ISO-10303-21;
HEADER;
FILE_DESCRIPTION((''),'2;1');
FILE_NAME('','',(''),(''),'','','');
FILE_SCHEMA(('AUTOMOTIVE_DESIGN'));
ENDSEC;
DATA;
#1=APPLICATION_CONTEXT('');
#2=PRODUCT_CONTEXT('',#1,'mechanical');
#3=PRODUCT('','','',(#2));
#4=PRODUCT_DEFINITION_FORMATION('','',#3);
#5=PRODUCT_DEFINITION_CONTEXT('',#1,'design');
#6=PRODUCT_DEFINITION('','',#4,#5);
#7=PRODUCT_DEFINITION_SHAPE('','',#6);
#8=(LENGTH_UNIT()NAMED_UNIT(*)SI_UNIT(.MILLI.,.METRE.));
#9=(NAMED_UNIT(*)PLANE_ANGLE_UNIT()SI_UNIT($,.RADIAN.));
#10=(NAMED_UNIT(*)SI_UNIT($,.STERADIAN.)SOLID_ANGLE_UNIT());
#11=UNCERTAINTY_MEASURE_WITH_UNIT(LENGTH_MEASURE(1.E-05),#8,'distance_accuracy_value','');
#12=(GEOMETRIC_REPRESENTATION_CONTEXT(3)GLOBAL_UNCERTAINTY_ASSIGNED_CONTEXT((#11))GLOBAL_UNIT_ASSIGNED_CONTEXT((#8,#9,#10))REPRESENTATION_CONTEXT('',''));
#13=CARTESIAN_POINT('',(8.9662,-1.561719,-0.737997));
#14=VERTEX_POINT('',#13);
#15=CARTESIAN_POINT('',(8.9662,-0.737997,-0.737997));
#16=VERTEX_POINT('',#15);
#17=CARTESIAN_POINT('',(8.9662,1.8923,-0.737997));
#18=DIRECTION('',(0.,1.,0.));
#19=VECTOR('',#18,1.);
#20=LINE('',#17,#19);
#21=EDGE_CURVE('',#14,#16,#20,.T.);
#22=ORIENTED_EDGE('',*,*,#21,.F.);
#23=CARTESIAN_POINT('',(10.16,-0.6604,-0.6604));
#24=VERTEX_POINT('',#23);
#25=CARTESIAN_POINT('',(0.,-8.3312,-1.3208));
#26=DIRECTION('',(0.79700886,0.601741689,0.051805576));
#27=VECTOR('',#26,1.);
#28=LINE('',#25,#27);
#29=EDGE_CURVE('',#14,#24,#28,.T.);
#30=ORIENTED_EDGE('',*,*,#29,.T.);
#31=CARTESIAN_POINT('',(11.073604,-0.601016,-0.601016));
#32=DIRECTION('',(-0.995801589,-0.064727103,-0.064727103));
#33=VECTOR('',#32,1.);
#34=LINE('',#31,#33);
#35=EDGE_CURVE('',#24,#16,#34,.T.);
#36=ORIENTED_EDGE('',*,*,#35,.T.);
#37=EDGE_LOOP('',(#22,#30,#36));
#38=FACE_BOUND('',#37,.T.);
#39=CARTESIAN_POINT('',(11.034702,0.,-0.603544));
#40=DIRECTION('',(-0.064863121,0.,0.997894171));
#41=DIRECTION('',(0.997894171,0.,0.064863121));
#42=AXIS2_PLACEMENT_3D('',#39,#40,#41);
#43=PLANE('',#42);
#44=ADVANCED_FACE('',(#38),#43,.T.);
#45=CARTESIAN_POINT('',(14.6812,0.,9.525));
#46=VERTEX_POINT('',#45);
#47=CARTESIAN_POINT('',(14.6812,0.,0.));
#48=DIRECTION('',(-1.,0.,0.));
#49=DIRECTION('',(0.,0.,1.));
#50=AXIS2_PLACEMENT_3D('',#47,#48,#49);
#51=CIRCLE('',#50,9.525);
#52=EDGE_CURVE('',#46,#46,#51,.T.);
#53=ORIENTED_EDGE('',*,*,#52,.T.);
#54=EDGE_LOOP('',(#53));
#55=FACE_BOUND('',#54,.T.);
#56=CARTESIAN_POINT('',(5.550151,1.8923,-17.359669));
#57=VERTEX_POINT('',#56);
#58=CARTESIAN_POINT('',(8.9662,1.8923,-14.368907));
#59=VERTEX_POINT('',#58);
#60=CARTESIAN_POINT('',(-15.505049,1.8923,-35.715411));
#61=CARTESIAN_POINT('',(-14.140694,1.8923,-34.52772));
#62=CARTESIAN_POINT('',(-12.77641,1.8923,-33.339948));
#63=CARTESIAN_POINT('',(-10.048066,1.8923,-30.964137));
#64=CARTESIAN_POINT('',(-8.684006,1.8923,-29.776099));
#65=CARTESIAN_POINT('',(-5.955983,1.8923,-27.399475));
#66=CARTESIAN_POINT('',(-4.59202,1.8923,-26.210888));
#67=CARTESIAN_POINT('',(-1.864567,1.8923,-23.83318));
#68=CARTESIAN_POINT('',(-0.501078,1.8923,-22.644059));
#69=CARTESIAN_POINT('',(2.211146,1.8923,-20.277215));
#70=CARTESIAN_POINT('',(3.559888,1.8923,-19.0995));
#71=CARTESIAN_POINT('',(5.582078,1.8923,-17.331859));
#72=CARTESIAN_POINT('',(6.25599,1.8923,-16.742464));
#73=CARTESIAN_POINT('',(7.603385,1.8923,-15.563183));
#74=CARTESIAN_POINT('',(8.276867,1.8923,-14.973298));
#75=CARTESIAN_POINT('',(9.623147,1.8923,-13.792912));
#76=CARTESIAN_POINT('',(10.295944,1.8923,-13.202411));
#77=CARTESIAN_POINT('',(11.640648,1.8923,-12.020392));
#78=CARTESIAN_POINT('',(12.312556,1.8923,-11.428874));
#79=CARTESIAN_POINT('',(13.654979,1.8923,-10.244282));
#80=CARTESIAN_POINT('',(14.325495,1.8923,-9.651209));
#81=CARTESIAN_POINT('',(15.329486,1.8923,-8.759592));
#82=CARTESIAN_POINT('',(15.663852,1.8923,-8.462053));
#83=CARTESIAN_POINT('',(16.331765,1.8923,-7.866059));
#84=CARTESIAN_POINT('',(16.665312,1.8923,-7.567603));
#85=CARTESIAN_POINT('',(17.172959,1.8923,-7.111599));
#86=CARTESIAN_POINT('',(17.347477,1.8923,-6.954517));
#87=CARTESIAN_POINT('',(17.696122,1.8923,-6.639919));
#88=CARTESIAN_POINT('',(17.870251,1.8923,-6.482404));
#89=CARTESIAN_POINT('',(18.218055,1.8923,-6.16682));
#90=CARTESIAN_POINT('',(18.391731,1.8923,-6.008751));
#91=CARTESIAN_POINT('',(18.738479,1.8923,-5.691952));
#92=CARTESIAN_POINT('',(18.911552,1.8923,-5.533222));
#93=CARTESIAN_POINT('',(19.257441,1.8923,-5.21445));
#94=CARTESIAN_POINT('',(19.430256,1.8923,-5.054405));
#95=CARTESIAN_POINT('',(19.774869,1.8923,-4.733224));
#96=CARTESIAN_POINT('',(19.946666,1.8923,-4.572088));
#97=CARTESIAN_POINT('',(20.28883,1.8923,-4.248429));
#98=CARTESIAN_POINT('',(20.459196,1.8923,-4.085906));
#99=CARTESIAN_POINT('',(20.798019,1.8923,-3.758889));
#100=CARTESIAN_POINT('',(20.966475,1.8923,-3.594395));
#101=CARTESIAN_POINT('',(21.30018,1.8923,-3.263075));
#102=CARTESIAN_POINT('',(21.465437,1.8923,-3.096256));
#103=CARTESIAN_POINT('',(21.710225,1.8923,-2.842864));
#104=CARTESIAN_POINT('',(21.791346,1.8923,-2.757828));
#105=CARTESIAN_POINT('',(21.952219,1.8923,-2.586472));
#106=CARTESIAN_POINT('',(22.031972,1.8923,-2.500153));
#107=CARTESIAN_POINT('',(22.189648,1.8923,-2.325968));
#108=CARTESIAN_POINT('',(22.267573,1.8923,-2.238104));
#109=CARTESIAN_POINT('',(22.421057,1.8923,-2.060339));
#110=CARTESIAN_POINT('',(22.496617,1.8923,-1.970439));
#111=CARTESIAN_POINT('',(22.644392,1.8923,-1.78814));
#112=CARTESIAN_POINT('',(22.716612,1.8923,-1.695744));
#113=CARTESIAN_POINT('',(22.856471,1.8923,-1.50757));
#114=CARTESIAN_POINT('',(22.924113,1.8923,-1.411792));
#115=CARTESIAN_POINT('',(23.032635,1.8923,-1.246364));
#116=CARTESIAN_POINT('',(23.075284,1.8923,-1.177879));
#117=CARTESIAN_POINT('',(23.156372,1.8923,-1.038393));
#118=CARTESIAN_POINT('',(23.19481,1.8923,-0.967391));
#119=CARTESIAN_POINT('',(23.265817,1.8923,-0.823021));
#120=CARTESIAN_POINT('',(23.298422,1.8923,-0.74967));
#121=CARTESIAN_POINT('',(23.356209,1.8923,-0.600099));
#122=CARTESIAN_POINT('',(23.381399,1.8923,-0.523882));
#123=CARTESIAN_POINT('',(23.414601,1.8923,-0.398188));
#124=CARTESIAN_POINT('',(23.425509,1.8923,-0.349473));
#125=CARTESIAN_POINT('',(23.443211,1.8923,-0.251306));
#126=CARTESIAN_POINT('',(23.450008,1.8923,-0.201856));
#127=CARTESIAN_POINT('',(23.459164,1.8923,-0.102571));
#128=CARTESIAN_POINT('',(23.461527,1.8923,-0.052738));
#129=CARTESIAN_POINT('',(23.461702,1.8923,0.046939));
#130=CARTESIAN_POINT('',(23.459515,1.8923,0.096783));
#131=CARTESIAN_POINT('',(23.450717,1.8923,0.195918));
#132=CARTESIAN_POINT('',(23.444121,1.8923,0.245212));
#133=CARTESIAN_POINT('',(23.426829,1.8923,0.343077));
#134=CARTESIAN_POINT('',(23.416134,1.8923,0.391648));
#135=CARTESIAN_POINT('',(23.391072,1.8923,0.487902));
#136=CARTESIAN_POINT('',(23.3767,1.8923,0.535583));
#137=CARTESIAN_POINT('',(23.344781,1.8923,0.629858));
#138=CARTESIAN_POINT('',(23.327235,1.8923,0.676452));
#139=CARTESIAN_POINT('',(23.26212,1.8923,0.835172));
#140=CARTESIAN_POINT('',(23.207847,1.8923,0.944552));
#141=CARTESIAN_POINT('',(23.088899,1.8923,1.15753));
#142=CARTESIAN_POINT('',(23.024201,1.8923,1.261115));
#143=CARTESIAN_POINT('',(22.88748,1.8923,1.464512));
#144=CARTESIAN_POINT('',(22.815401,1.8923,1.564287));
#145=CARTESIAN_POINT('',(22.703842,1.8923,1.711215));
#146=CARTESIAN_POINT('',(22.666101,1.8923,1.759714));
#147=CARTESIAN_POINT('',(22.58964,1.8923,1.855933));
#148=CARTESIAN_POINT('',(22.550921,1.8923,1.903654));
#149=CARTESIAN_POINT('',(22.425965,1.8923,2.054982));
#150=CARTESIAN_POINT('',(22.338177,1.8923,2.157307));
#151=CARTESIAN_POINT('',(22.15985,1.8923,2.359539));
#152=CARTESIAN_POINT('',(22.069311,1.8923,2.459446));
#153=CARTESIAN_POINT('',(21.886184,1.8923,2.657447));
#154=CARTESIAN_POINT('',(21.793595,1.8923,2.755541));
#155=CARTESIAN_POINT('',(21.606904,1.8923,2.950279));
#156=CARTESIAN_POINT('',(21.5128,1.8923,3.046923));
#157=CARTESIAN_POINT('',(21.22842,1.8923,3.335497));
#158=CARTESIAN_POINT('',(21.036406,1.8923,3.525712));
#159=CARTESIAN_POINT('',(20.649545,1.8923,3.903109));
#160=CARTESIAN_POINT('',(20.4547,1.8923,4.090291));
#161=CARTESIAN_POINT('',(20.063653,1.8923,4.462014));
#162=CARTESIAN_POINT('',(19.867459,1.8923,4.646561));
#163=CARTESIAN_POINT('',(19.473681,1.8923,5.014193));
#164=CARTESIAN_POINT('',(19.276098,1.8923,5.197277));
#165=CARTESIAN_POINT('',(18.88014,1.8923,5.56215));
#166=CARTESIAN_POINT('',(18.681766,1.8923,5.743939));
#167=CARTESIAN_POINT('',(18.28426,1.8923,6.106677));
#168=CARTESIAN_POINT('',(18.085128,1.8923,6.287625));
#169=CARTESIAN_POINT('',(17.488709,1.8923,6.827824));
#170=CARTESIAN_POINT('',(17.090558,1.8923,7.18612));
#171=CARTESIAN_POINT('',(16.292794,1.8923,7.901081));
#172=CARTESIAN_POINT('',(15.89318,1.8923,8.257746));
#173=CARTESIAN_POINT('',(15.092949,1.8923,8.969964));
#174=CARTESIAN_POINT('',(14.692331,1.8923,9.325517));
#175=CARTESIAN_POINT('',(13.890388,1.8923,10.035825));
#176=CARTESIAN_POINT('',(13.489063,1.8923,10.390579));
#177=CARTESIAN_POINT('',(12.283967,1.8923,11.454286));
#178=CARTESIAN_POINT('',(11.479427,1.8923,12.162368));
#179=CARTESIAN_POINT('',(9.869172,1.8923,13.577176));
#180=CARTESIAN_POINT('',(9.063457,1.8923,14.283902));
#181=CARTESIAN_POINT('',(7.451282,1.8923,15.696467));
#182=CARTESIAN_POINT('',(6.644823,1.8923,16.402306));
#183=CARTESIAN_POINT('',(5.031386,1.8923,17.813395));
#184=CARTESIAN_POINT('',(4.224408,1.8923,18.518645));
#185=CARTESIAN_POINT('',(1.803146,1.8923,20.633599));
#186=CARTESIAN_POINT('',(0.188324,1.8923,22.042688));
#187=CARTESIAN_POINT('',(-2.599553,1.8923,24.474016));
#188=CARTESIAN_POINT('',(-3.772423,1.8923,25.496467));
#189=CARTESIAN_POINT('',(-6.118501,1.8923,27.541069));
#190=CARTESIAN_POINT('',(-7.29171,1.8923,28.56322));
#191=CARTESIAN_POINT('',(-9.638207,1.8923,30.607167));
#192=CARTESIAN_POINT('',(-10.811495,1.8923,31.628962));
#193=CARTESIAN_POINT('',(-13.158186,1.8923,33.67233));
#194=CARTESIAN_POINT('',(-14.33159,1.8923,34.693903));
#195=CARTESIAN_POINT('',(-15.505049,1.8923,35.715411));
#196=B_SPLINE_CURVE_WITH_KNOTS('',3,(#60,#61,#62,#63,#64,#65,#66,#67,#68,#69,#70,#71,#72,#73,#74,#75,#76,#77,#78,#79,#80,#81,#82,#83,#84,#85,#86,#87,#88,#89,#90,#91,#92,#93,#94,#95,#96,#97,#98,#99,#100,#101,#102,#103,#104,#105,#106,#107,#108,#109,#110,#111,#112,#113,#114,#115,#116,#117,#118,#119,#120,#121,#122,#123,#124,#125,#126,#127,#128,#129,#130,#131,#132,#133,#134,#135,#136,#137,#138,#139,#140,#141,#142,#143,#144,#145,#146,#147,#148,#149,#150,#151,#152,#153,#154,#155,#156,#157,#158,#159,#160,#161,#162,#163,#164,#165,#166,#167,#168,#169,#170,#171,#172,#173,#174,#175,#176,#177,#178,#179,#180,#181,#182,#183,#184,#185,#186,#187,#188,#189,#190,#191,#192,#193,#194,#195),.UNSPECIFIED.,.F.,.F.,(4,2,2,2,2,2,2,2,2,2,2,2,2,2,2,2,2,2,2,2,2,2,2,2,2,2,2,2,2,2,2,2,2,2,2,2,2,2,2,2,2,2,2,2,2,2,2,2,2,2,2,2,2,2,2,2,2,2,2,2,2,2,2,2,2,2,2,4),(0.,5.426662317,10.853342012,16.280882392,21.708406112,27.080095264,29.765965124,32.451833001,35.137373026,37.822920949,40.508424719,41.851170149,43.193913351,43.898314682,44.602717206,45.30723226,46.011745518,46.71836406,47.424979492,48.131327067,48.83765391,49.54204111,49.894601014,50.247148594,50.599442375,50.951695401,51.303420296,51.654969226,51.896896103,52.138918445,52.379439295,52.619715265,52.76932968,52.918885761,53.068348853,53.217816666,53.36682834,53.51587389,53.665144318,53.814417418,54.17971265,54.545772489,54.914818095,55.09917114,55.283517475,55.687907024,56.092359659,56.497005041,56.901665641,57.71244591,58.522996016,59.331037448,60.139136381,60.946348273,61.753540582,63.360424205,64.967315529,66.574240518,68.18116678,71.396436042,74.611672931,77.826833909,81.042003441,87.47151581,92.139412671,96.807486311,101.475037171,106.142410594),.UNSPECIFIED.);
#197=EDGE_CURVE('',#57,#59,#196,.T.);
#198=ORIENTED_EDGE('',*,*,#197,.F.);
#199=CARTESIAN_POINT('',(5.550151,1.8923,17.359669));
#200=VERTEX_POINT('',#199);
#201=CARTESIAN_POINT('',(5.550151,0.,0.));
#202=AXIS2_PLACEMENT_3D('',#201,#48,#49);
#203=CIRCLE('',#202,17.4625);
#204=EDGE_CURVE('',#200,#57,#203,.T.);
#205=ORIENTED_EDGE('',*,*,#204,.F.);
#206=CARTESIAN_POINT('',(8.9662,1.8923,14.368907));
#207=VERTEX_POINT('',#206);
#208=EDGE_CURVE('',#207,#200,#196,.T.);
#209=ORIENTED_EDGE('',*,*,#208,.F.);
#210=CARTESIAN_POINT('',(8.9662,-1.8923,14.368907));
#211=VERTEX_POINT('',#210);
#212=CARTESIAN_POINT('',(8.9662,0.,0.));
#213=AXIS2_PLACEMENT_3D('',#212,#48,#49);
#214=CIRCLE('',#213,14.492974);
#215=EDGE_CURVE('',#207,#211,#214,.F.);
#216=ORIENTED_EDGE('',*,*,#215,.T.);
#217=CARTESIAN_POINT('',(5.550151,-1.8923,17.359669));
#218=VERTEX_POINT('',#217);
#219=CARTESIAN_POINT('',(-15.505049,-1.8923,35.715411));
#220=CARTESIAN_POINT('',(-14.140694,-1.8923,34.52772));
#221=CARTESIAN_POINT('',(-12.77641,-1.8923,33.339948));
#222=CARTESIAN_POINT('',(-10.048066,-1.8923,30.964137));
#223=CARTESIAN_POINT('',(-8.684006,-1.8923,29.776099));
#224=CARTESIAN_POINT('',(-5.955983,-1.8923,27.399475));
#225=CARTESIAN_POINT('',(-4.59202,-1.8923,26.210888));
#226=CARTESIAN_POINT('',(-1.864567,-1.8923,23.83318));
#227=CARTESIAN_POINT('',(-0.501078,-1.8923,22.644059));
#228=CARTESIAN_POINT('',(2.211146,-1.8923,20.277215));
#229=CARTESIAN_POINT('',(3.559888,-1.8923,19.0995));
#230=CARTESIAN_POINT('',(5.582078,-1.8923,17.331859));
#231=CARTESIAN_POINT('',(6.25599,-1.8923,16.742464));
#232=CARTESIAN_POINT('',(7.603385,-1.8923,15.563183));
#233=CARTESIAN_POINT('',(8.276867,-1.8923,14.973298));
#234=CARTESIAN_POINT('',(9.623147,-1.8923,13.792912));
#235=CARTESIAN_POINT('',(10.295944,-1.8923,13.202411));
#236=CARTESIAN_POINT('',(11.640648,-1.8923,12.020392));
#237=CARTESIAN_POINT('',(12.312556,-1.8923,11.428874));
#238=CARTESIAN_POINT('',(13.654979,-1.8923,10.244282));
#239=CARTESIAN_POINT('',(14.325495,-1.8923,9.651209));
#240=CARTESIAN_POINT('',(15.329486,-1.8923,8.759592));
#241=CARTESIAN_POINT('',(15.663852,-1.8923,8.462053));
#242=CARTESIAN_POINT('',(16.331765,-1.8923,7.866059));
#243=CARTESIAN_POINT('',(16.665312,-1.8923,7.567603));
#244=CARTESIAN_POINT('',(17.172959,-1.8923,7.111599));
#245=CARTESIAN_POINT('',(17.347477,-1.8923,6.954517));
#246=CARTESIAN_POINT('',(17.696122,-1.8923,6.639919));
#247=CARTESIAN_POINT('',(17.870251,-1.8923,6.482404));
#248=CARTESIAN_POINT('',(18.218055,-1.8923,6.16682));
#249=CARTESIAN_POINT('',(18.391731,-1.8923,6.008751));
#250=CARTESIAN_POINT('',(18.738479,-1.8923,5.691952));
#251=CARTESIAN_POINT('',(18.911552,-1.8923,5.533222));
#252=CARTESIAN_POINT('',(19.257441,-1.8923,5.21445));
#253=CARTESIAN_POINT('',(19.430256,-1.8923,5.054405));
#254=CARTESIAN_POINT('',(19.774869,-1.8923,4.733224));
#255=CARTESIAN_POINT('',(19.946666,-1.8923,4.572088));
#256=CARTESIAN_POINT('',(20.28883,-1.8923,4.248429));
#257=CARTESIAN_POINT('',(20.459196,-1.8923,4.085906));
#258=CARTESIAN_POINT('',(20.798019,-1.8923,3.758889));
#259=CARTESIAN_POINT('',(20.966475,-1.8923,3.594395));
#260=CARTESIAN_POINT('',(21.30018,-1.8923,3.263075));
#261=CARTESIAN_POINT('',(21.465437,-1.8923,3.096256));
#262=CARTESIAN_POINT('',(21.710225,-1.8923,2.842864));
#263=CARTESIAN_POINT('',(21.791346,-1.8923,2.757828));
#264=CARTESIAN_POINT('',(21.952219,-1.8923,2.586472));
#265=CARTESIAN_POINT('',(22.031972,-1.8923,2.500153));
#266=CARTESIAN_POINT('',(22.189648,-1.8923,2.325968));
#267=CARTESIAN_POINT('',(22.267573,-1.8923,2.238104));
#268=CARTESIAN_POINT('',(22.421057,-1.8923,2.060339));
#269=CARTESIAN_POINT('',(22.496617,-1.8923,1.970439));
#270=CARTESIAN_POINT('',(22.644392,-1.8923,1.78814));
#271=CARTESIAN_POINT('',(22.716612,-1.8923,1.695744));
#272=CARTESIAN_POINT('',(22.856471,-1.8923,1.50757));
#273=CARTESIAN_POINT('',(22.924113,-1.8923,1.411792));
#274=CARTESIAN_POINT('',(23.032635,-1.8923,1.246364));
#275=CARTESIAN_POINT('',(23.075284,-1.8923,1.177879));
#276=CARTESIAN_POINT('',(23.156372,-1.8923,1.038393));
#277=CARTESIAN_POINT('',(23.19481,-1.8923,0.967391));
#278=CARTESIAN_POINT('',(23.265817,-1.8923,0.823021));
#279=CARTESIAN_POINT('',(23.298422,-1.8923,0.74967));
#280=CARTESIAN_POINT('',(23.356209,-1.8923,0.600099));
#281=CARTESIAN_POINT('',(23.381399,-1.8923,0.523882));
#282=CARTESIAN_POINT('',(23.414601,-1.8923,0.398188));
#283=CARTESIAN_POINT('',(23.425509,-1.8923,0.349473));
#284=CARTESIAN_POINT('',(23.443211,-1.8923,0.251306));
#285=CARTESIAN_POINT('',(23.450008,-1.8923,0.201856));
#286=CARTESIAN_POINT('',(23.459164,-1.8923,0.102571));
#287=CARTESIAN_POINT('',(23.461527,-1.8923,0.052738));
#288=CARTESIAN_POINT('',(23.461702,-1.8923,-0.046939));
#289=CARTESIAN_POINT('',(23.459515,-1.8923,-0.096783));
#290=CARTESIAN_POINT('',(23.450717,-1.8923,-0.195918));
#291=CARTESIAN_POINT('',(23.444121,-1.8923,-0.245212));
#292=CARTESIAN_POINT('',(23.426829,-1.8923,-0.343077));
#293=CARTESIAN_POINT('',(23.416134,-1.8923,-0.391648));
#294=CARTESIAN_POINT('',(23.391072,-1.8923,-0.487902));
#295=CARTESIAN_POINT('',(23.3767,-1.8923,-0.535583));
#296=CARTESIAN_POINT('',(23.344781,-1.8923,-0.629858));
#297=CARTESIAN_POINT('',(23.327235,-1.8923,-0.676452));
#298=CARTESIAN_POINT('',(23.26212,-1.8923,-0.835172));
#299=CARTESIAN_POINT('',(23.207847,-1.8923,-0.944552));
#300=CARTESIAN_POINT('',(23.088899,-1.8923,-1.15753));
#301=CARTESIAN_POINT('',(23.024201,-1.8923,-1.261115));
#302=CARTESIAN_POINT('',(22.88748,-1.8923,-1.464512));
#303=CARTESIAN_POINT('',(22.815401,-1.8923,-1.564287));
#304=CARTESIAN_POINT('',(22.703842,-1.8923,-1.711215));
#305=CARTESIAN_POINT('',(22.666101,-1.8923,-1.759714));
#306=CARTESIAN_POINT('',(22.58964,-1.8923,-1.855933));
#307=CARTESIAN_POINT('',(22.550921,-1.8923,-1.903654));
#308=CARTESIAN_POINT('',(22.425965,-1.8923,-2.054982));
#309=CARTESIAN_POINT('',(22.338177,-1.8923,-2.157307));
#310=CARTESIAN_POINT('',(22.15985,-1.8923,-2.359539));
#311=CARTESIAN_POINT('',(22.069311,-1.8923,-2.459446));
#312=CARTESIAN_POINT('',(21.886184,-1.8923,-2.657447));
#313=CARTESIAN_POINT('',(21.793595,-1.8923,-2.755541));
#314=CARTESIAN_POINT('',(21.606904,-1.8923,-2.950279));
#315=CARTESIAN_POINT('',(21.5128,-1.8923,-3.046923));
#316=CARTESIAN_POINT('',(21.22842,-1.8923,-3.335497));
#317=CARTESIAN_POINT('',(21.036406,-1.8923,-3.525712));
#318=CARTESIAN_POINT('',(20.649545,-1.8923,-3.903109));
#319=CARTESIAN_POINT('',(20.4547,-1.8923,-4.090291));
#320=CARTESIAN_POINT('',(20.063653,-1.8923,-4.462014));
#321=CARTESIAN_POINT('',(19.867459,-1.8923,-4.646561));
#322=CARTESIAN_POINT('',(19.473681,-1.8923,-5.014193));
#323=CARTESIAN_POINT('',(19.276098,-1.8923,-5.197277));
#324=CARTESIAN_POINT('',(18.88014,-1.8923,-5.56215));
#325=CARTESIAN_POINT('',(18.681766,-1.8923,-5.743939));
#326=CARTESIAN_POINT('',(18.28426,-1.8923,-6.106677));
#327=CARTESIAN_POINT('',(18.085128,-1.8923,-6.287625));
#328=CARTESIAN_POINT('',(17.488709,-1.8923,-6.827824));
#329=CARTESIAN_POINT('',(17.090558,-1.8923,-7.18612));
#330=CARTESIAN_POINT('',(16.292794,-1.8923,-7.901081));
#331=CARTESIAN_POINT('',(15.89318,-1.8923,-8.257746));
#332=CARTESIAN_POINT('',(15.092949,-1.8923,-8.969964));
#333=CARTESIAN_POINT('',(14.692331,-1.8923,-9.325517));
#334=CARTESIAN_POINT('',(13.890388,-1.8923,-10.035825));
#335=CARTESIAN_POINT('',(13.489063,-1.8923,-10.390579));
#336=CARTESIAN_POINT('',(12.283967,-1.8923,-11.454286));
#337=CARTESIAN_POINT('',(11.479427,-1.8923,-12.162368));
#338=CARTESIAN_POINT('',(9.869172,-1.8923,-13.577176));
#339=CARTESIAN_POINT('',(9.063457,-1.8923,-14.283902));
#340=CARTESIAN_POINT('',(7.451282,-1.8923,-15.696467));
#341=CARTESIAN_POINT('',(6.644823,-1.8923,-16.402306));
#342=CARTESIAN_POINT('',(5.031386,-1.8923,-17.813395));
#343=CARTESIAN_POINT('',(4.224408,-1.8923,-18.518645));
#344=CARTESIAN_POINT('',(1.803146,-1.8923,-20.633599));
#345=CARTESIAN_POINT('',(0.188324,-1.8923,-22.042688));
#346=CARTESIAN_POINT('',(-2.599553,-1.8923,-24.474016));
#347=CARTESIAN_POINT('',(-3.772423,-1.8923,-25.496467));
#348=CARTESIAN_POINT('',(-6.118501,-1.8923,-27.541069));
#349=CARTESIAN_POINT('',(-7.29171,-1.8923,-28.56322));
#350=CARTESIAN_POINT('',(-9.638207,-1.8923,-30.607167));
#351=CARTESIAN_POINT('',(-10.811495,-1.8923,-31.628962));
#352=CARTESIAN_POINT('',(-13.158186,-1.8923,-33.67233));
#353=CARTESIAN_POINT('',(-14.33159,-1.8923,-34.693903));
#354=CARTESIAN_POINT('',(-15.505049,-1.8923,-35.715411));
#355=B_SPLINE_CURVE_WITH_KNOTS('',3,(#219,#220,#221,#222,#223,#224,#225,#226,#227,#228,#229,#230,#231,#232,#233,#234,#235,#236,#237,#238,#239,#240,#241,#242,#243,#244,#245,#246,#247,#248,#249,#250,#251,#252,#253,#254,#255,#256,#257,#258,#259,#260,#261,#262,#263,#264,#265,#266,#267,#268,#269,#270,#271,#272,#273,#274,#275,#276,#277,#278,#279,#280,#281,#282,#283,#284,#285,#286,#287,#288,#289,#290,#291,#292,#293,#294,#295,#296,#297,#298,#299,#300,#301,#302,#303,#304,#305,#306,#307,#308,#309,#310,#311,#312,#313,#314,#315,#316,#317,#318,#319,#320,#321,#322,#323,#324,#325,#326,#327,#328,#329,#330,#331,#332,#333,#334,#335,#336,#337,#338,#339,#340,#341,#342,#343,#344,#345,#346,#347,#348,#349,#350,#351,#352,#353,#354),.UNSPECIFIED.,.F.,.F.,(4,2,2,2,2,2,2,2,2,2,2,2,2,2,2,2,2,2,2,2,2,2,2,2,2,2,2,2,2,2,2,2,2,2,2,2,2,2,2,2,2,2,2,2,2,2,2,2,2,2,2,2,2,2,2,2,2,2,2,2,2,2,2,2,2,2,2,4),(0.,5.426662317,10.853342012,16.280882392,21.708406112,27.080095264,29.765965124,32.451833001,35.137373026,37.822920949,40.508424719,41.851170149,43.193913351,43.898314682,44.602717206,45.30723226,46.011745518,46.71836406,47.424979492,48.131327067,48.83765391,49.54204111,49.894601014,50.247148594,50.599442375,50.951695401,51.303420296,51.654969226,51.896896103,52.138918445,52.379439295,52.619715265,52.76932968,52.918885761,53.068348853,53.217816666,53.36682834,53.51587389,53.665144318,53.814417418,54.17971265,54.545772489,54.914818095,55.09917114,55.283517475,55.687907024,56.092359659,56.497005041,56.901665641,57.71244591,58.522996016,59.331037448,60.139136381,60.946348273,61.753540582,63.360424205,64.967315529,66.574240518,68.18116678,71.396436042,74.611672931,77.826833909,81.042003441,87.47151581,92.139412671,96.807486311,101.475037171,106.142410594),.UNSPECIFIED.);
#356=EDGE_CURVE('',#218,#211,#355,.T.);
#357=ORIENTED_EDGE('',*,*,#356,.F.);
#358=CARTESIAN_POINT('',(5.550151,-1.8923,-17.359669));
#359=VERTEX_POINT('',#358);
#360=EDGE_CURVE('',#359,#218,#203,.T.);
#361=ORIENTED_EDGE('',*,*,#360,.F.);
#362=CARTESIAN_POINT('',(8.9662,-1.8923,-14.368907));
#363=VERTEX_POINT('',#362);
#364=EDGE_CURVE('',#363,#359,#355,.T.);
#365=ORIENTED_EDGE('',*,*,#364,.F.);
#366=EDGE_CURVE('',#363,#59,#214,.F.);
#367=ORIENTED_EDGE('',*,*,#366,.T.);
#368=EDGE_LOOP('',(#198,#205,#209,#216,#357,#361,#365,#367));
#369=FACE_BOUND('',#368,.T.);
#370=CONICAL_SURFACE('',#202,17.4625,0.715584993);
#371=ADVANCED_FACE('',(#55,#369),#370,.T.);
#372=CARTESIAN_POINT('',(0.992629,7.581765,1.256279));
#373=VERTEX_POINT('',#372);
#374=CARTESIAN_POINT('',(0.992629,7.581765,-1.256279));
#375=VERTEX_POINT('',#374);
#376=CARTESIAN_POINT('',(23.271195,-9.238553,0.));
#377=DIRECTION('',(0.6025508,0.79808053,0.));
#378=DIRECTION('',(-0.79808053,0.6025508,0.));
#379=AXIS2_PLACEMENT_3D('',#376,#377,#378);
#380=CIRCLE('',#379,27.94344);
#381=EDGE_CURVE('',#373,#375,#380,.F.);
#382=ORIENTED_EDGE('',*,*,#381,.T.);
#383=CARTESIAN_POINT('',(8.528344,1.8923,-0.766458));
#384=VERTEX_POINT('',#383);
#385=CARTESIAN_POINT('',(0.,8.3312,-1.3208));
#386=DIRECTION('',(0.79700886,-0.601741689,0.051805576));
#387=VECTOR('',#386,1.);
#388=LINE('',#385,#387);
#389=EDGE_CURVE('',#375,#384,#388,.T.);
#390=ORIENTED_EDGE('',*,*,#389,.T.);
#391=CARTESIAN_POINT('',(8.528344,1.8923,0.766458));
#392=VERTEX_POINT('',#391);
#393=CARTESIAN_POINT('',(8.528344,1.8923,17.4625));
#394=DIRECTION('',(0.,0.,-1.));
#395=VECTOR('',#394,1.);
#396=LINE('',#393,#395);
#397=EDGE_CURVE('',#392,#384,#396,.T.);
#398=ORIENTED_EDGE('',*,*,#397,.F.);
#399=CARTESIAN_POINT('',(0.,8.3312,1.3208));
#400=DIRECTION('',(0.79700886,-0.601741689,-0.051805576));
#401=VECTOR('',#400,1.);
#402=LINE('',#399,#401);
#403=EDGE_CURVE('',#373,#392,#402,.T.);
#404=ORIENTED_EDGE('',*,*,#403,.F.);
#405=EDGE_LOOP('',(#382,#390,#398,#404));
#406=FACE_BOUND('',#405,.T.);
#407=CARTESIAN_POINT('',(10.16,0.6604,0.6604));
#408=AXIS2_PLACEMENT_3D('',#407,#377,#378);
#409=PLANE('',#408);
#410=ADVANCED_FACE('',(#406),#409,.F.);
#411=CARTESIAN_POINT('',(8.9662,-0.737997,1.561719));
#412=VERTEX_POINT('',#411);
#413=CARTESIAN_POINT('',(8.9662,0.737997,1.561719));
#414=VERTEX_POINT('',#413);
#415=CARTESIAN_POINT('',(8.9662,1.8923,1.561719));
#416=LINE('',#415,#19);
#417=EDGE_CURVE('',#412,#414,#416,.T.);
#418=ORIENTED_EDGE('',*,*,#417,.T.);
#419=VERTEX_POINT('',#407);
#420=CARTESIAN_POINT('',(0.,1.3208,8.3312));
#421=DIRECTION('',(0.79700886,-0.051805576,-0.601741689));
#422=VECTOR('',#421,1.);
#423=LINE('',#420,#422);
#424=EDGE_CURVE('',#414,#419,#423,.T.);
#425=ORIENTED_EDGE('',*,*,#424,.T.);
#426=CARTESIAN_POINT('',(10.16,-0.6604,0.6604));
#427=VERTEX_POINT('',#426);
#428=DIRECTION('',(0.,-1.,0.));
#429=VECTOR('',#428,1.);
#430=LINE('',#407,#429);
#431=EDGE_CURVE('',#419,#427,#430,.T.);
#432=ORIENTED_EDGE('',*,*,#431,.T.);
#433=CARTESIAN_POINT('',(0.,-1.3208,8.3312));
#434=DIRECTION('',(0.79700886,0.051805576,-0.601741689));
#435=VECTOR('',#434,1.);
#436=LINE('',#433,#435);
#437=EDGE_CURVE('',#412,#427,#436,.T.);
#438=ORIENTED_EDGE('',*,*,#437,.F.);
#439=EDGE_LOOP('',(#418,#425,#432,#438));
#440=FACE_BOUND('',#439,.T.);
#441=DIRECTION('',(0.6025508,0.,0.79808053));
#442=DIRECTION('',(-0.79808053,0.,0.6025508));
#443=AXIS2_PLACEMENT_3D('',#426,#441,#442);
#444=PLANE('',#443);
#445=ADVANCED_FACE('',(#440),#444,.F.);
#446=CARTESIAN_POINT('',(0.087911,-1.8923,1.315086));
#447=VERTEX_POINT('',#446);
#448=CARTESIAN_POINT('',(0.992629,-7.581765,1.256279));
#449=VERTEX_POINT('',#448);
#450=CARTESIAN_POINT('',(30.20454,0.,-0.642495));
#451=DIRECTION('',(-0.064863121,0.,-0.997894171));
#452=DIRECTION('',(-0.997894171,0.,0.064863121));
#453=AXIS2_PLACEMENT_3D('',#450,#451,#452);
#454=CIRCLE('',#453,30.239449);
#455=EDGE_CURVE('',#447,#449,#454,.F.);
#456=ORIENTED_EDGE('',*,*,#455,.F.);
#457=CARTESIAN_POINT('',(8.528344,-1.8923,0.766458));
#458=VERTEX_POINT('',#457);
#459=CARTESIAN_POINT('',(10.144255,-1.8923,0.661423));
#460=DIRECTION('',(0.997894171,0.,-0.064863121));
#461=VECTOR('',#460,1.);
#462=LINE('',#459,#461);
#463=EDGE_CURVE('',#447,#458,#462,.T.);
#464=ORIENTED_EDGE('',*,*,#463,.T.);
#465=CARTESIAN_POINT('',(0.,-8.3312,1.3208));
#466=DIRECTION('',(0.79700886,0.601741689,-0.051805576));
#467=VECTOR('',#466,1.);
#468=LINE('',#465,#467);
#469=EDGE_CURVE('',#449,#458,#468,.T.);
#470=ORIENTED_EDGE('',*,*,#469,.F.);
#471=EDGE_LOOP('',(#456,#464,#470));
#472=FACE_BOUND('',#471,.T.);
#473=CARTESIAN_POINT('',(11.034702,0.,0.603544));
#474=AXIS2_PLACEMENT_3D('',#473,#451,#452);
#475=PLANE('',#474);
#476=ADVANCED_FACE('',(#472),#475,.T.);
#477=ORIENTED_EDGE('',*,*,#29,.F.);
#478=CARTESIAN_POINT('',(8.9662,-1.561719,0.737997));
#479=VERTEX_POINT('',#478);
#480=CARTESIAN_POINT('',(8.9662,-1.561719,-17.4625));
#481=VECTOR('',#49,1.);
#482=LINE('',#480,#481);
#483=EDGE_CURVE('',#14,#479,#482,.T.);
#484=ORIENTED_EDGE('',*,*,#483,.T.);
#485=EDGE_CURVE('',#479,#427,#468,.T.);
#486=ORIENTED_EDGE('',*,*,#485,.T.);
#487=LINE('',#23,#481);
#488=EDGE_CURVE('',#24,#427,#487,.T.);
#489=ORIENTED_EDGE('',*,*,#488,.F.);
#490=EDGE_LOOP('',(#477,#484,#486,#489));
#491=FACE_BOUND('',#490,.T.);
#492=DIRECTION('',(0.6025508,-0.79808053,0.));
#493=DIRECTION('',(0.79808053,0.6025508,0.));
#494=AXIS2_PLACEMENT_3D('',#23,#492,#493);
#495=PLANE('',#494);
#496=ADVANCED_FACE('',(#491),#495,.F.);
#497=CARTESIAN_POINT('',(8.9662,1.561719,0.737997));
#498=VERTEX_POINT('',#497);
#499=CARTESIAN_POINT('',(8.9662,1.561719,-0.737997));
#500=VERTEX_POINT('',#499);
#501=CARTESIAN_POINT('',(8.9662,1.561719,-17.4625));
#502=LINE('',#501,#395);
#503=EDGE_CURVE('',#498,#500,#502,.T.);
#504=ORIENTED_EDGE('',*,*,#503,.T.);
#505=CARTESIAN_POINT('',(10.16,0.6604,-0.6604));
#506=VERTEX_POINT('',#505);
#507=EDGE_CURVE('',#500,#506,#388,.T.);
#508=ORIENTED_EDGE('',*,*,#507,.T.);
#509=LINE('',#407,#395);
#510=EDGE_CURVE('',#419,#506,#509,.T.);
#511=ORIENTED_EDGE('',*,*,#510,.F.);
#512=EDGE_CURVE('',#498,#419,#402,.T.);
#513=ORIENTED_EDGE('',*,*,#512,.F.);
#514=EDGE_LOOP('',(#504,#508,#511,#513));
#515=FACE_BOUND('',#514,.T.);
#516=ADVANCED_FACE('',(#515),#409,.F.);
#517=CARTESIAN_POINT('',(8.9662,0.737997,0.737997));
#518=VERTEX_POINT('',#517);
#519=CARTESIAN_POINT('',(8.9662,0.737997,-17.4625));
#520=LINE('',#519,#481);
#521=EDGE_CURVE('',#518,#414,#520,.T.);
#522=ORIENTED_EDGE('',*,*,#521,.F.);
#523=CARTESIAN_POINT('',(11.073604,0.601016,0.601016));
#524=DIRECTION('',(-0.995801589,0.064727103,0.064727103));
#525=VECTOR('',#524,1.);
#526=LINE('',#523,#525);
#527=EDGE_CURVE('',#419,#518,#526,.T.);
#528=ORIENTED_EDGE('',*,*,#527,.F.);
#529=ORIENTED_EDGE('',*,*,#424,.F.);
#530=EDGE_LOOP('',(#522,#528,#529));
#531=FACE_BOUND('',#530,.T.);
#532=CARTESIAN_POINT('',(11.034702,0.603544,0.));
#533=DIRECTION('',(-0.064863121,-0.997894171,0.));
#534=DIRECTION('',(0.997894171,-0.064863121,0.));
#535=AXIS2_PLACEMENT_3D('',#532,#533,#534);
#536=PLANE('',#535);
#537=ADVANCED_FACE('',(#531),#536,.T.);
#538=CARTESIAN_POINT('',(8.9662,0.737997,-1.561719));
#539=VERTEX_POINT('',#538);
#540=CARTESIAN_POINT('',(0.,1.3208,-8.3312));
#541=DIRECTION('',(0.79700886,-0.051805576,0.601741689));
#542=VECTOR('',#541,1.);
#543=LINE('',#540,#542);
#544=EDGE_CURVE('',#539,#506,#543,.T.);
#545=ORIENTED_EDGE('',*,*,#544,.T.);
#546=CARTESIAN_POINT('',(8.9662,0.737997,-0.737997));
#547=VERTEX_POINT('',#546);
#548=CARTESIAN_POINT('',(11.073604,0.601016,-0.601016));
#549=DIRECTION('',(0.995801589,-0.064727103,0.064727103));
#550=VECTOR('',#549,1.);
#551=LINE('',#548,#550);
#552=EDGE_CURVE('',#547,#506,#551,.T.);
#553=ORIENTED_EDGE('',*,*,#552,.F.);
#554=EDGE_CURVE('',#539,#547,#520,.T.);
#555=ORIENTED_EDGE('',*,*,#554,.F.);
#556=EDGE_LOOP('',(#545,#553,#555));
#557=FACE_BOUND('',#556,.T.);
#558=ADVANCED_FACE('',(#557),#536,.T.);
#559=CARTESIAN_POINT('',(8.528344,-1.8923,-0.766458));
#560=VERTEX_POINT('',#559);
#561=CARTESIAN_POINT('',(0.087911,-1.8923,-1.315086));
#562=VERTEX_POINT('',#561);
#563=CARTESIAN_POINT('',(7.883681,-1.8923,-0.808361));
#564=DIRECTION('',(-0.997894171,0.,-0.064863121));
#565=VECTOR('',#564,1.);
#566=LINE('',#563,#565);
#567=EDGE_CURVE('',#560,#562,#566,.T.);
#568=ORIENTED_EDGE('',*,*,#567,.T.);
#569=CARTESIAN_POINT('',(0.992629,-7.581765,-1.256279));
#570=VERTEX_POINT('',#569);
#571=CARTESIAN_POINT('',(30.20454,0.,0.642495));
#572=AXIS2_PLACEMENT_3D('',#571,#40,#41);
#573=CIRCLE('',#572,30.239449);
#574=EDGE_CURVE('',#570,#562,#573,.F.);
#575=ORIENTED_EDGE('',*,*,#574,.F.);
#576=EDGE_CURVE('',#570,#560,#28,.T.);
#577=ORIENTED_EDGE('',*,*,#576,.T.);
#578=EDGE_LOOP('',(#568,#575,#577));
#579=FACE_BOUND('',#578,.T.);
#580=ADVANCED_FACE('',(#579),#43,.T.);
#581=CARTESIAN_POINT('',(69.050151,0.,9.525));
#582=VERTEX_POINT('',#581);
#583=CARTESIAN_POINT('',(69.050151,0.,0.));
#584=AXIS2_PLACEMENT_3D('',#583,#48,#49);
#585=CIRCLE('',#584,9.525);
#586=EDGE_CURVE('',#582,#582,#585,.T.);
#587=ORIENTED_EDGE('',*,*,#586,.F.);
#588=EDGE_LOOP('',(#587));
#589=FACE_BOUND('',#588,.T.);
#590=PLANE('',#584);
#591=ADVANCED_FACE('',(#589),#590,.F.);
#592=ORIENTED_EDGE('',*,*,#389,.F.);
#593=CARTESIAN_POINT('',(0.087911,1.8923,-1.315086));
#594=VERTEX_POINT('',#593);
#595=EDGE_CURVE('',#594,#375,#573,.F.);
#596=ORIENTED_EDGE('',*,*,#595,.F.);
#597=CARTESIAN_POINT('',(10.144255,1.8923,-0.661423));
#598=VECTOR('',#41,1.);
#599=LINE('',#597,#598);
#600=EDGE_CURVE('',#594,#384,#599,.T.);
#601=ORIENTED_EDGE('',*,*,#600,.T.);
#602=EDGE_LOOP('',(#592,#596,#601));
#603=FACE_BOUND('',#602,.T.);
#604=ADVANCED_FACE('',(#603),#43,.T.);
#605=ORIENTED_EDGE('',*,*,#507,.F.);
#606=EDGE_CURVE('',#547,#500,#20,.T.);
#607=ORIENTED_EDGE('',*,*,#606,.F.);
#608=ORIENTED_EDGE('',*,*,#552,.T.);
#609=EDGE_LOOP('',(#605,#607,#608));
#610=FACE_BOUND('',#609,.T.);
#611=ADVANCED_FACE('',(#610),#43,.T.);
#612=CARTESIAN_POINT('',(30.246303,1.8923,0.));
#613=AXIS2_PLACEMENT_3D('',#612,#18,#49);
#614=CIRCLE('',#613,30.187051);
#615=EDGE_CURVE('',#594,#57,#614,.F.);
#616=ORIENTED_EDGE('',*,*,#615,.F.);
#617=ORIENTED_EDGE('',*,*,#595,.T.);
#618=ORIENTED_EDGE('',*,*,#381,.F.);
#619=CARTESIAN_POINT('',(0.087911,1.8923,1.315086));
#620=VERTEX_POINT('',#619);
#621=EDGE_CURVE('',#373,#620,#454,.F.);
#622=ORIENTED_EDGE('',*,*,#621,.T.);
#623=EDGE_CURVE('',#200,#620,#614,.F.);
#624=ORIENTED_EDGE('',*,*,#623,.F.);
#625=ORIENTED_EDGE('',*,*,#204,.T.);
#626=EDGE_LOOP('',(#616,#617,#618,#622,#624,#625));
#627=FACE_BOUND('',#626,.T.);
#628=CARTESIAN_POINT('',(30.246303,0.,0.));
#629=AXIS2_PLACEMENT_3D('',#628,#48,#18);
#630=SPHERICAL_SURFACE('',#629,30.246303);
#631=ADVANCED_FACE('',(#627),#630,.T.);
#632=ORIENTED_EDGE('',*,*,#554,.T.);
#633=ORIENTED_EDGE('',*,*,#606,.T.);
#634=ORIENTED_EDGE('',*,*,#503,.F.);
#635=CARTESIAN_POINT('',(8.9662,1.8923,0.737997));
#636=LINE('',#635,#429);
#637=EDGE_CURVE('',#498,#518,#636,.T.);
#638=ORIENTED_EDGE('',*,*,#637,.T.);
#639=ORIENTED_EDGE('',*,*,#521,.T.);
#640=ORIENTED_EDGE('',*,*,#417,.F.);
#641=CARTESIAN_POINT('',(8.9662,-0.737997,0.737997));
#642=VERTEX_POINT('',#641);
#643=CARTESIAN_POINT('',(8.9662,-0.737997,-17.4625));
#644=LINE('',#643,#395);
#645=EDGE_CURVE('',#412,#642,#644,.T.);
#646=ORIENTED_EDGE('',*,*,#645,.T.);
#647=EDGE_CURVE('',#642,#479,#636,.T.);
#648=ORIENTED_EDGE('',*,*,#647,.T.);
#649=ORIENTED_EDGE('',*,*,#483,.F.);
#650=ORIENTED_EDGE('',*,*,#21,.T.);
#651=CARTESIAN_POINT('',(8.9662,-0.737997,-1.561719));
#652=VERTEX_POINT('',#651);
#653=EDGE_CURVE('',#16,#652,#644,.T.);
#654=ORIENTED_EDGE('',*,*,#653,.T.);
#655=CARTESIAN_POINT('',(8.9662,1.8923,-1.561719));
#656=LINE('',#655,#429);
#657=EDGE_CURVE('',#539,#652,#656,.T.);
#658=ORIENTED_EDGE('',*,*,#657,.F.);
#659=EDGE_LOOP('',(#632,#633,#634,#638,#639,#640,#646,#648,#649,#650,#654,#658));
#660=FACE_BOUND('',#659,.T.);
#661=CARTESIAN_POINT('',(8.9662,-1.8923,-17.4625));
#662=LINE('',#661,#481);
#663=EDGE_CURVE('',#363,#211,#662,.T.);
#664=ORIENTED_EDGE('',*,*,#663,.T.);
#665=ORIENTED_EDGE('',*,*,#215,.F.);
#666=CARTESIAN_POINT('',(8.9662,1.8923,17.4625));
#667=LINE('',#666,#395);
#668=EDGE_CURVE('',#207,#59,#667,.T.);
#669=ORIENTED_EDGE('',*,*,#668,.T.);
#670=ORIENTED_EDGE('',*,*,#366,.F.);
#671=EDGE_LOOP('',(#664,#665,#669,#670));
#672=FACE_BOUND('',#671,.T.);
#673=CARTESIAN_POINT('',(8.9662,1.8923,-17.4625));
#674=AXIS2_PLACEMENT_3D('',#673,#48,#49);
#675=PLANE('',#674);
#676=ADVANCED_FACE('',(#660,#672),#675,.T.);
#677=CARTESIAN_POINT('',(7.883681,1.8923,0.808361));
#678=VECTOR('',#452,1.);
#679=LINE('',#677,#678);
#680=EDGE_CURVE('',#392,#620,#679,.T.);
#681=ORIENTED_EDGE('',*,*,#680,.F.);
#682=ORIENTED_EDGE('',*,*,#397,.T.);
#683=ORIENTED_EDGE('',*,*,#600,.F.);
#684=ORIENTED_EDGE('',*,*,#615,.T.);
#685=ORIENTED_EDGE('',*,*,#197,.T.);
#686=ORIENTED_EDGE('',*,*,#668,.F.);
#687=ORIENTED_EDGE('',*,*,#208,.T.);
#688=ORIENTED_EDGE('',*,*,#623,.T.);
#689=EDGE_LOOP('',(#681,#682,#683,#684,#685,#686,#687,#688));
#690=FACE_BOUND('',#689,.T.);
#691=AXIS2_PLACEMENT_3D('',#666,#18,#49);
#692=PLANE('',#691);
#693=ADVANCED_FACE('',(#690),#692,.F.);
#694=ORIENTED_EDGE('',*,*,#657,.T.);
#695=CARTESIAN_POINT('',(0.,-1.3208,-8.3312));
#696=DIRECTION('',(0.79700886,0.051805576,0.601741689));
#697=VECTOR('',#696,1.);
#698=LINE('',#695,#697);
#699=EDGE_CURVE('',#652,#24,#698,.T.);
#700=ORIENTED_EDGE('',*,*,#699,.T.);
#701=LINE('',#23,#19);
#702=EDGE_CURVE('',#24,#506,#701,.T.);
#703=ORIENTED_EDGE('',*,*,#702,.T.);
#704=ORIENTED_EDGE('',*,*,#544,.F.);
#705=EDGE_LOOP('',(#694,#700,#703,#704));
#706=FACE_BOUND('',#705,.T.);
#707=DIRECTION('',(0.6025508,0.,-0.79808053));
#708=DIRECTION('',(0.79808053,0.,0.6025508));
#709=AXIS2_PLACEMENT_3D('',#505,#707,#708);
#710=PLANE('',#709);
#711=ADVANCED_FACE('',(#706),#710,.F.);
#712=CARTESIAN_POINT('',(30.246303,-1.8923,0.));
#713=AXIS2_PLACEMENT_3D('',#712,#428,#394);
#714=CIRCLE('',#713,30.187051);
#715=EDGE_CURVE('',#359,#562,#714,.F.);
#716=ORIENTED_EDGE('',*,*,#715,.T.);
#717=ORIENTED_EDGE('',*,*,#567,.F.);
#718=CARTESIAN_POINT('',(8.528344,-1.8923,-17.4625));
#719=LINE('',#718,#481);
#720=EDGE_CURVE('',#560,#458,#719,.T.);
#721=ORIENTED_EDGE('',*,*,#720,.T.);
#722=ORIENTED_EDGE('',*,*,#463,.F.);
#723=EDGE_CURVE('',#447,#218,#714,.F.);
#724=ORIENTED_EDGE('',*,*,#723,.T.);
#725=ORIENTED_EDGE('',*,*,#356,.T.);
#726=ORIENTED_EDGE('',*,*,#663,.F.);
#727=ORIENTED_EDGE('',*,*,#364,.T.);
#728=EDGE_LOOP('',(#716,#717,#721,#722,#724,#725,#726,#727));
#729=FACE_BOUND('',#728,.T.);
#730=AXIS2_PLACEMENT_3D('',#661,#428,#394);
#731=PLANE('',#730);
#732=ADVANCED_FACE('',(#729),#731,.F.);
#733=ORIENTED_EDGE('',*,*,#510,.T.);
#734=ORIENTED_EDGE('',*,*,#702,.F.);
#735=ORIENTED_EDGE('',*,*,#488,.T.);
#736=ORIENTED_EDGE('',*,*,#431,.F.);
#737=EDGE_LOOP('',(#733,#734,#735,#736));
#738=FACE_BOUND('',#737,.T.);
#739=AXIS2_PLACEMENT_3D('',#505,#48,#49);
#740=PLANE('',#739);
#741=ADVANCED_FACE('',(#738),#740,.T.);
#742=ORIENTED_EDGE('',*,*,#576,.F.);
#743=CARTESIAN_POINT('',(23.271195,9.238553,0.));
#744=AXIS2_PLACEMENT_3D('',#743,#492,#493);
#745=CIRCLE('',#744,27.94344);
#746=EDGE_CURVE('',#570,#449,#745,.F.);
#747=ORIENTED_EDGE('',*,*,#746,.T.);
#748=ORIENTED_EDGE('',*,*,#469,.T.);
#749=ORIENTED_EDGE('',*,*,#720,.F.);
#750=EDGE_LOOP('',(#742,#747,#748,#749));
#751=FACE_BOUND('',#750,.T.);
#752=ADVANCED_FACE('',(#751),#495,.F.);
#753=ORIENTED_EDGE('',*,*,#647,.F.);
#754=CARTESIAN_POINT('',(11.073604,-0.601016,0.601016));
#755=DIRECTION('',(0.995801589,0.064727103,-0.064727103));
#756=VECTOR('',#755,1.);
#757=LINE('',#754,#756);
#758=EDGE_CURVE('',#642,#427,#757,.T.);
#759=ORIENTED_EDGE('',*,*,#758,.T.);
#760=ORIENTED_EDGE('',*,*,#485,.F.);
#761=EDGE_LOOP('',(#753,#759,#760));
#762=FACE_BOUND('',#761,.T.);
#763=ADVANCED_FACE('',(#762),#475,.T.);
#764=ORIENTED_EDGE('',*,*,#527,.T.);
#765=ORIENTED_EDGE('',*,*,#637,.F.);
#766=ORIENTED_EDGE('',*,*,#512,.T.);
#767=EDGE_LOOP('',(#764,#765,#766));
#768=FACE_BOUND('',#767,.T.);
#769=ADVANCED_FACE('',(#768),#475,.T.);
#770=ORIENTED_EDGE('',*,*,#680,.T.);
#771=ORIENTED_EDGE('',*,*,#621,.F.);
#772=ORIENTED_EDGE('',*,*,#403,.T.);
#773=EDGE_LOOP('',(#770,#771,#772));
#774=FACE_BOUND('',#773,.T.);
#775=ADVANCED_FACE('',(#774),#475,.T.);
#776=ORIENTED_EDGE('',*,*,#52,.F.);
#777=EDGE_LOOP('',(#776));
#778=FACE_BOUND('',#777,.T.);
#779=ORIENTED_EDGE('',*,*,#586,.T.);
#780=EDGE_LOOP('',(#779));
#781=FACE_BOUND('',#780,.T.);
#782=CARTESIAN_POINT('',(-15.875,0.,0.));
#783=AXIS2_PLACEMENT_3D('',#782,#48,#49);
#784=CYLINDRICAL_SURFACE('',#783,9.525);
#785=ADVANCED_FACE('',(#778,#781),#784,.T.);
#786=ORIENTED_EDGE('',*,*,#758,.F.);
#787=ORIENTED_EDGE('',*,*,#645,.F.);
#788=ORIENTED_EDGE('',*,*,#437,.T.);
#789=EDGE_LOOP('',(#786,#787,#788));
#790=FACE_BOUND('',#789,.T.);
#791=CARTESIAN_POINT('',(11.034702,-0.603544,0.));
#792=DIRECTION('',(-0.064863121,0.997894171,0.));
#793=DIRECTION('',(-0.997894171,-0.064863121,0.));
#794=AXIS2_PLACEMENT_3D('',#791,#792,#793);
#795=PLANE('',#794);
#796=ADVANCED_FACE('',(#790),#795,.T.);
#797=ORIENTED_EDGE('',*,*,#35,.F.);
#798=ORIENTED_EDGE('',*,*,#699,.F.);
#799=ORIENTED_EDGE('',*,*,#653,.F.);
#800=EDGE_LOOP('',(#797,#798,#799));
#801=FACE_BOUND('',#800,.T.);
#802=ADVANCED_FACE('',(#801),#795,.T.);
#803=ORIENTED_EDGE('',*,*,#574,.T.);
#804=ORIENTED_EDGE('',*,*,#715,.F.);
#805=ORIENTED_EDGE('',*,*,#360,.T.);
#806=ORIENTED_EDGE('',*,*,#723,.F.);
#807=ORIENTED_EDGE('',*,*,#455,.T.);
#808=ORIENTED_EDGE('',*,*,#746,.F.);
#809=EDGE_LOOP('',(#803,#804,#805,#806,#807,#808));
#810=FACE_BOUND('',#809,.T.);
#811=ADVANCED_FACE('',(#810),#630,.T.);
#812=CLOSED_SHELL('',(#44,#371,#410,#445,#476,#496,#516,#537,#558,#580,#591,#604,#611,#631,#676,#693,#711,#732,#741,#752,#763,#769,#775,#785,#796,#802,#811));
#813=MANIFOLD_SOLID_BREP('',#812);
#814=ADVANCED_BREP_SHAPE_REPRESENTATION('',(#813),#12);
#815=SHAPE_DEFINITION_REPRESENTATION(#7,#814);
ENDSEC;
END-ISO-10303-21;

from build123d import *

# Parameters (mm, degrees)
SKETCH2_W         = 34.925
SKETCH2_H         = 3.7846
SLOT_DEPTH        = 8.9662
CIRPATTERN1_COUNT = 2
CIRPATTERN1_ANGLE = 90


with BuildPart() as part:
    # BodySke → Base-Revolve (revolve)
    with BuildSketch(Plane.XY, mode=Mode.PRIVATE) as base_revolve_sk:
        with BuildLine():
            Line((0, 0), (69.050150768, 0))
            Line((69.050150768, 0), (69.050150768, 9.525))
            Line((69.050150768, 9.525), (14.6812, 9.525))
            Line((14.6812, 9.525), (5.550150768, 17.4625))
            ThreePointArc((5.550150768, 17.4625), (1.420913597, 9.161646683), (0, 0))
        make_face()
    revolve(base_revolve_sk.sketch.rotate(Axis((-15.875, 0, 0), (1, 0, 0)), 90), axis=Axis((-15.875, 0, 0), (1, 0, 0)))

    # Sketch2 → Slot (cut)
    with BuildSketch(Plane(origin=(0, 0, 0), x_dir=(0, 0, -1), z_dir=(1, 0, 0))):
        Rectangle(SKETCH2_W, SKETCH2_H)
    extrude(amount=SLOT_DEPTH, mode=Mode.SUBTRACT)

    # Sketch3 → Cross section 0
    with BuildSketch(Plane(origin=(0, 0, 0), x_dir=(0, 0, -1), z_dir=(1, 0, 0))):
        with BuildLine():
            Line((1.3208, -8.3312), (-1.3208, -8.3312))
            Line((-1.3208, -8.3312), (-1.3208, 8.3312))
            Line((-1.3208, 8.3312), (1.3208, 8.3312))
            Line((1.3208, 8.3312), (1.3208, -8.3312))
        make_face()
    # Sketch4 → Cross section 1
    with BuildSketch(Plane(origin=(10.16, 0, 0), x_dir=(0, 0, -1), z_dir=(1, 0, 0))):
        with BuildLine():
            Line((0.6604, -0.6604), (-0.6604, -0.6604))
            Line((-0.6604, -0.6604), (-0.6604, 0.6604))
            Line((-0.6604, 0.6604), (0.6604, 0.6604))
            Line((0.6604, 0.6604), (0.6604, -0.6604))
        make_face()
    cross = loft(mode=Mode.SUBTRACT)

    # CirPattern1: Cross ×2 about axis
    cirpattern1_axis = Axis((0, 0, 0), (1, 0, 0))
    for i in range(1, CIRPATTERN1_COUNT):
        add(cross.rotate(cirpattern1_axis, i * CIRPATTERN1_ANGLE / (CIRPATTERN1_COUNT - 1)), mode=Mode.SUBTRACT)


solid = part.part
